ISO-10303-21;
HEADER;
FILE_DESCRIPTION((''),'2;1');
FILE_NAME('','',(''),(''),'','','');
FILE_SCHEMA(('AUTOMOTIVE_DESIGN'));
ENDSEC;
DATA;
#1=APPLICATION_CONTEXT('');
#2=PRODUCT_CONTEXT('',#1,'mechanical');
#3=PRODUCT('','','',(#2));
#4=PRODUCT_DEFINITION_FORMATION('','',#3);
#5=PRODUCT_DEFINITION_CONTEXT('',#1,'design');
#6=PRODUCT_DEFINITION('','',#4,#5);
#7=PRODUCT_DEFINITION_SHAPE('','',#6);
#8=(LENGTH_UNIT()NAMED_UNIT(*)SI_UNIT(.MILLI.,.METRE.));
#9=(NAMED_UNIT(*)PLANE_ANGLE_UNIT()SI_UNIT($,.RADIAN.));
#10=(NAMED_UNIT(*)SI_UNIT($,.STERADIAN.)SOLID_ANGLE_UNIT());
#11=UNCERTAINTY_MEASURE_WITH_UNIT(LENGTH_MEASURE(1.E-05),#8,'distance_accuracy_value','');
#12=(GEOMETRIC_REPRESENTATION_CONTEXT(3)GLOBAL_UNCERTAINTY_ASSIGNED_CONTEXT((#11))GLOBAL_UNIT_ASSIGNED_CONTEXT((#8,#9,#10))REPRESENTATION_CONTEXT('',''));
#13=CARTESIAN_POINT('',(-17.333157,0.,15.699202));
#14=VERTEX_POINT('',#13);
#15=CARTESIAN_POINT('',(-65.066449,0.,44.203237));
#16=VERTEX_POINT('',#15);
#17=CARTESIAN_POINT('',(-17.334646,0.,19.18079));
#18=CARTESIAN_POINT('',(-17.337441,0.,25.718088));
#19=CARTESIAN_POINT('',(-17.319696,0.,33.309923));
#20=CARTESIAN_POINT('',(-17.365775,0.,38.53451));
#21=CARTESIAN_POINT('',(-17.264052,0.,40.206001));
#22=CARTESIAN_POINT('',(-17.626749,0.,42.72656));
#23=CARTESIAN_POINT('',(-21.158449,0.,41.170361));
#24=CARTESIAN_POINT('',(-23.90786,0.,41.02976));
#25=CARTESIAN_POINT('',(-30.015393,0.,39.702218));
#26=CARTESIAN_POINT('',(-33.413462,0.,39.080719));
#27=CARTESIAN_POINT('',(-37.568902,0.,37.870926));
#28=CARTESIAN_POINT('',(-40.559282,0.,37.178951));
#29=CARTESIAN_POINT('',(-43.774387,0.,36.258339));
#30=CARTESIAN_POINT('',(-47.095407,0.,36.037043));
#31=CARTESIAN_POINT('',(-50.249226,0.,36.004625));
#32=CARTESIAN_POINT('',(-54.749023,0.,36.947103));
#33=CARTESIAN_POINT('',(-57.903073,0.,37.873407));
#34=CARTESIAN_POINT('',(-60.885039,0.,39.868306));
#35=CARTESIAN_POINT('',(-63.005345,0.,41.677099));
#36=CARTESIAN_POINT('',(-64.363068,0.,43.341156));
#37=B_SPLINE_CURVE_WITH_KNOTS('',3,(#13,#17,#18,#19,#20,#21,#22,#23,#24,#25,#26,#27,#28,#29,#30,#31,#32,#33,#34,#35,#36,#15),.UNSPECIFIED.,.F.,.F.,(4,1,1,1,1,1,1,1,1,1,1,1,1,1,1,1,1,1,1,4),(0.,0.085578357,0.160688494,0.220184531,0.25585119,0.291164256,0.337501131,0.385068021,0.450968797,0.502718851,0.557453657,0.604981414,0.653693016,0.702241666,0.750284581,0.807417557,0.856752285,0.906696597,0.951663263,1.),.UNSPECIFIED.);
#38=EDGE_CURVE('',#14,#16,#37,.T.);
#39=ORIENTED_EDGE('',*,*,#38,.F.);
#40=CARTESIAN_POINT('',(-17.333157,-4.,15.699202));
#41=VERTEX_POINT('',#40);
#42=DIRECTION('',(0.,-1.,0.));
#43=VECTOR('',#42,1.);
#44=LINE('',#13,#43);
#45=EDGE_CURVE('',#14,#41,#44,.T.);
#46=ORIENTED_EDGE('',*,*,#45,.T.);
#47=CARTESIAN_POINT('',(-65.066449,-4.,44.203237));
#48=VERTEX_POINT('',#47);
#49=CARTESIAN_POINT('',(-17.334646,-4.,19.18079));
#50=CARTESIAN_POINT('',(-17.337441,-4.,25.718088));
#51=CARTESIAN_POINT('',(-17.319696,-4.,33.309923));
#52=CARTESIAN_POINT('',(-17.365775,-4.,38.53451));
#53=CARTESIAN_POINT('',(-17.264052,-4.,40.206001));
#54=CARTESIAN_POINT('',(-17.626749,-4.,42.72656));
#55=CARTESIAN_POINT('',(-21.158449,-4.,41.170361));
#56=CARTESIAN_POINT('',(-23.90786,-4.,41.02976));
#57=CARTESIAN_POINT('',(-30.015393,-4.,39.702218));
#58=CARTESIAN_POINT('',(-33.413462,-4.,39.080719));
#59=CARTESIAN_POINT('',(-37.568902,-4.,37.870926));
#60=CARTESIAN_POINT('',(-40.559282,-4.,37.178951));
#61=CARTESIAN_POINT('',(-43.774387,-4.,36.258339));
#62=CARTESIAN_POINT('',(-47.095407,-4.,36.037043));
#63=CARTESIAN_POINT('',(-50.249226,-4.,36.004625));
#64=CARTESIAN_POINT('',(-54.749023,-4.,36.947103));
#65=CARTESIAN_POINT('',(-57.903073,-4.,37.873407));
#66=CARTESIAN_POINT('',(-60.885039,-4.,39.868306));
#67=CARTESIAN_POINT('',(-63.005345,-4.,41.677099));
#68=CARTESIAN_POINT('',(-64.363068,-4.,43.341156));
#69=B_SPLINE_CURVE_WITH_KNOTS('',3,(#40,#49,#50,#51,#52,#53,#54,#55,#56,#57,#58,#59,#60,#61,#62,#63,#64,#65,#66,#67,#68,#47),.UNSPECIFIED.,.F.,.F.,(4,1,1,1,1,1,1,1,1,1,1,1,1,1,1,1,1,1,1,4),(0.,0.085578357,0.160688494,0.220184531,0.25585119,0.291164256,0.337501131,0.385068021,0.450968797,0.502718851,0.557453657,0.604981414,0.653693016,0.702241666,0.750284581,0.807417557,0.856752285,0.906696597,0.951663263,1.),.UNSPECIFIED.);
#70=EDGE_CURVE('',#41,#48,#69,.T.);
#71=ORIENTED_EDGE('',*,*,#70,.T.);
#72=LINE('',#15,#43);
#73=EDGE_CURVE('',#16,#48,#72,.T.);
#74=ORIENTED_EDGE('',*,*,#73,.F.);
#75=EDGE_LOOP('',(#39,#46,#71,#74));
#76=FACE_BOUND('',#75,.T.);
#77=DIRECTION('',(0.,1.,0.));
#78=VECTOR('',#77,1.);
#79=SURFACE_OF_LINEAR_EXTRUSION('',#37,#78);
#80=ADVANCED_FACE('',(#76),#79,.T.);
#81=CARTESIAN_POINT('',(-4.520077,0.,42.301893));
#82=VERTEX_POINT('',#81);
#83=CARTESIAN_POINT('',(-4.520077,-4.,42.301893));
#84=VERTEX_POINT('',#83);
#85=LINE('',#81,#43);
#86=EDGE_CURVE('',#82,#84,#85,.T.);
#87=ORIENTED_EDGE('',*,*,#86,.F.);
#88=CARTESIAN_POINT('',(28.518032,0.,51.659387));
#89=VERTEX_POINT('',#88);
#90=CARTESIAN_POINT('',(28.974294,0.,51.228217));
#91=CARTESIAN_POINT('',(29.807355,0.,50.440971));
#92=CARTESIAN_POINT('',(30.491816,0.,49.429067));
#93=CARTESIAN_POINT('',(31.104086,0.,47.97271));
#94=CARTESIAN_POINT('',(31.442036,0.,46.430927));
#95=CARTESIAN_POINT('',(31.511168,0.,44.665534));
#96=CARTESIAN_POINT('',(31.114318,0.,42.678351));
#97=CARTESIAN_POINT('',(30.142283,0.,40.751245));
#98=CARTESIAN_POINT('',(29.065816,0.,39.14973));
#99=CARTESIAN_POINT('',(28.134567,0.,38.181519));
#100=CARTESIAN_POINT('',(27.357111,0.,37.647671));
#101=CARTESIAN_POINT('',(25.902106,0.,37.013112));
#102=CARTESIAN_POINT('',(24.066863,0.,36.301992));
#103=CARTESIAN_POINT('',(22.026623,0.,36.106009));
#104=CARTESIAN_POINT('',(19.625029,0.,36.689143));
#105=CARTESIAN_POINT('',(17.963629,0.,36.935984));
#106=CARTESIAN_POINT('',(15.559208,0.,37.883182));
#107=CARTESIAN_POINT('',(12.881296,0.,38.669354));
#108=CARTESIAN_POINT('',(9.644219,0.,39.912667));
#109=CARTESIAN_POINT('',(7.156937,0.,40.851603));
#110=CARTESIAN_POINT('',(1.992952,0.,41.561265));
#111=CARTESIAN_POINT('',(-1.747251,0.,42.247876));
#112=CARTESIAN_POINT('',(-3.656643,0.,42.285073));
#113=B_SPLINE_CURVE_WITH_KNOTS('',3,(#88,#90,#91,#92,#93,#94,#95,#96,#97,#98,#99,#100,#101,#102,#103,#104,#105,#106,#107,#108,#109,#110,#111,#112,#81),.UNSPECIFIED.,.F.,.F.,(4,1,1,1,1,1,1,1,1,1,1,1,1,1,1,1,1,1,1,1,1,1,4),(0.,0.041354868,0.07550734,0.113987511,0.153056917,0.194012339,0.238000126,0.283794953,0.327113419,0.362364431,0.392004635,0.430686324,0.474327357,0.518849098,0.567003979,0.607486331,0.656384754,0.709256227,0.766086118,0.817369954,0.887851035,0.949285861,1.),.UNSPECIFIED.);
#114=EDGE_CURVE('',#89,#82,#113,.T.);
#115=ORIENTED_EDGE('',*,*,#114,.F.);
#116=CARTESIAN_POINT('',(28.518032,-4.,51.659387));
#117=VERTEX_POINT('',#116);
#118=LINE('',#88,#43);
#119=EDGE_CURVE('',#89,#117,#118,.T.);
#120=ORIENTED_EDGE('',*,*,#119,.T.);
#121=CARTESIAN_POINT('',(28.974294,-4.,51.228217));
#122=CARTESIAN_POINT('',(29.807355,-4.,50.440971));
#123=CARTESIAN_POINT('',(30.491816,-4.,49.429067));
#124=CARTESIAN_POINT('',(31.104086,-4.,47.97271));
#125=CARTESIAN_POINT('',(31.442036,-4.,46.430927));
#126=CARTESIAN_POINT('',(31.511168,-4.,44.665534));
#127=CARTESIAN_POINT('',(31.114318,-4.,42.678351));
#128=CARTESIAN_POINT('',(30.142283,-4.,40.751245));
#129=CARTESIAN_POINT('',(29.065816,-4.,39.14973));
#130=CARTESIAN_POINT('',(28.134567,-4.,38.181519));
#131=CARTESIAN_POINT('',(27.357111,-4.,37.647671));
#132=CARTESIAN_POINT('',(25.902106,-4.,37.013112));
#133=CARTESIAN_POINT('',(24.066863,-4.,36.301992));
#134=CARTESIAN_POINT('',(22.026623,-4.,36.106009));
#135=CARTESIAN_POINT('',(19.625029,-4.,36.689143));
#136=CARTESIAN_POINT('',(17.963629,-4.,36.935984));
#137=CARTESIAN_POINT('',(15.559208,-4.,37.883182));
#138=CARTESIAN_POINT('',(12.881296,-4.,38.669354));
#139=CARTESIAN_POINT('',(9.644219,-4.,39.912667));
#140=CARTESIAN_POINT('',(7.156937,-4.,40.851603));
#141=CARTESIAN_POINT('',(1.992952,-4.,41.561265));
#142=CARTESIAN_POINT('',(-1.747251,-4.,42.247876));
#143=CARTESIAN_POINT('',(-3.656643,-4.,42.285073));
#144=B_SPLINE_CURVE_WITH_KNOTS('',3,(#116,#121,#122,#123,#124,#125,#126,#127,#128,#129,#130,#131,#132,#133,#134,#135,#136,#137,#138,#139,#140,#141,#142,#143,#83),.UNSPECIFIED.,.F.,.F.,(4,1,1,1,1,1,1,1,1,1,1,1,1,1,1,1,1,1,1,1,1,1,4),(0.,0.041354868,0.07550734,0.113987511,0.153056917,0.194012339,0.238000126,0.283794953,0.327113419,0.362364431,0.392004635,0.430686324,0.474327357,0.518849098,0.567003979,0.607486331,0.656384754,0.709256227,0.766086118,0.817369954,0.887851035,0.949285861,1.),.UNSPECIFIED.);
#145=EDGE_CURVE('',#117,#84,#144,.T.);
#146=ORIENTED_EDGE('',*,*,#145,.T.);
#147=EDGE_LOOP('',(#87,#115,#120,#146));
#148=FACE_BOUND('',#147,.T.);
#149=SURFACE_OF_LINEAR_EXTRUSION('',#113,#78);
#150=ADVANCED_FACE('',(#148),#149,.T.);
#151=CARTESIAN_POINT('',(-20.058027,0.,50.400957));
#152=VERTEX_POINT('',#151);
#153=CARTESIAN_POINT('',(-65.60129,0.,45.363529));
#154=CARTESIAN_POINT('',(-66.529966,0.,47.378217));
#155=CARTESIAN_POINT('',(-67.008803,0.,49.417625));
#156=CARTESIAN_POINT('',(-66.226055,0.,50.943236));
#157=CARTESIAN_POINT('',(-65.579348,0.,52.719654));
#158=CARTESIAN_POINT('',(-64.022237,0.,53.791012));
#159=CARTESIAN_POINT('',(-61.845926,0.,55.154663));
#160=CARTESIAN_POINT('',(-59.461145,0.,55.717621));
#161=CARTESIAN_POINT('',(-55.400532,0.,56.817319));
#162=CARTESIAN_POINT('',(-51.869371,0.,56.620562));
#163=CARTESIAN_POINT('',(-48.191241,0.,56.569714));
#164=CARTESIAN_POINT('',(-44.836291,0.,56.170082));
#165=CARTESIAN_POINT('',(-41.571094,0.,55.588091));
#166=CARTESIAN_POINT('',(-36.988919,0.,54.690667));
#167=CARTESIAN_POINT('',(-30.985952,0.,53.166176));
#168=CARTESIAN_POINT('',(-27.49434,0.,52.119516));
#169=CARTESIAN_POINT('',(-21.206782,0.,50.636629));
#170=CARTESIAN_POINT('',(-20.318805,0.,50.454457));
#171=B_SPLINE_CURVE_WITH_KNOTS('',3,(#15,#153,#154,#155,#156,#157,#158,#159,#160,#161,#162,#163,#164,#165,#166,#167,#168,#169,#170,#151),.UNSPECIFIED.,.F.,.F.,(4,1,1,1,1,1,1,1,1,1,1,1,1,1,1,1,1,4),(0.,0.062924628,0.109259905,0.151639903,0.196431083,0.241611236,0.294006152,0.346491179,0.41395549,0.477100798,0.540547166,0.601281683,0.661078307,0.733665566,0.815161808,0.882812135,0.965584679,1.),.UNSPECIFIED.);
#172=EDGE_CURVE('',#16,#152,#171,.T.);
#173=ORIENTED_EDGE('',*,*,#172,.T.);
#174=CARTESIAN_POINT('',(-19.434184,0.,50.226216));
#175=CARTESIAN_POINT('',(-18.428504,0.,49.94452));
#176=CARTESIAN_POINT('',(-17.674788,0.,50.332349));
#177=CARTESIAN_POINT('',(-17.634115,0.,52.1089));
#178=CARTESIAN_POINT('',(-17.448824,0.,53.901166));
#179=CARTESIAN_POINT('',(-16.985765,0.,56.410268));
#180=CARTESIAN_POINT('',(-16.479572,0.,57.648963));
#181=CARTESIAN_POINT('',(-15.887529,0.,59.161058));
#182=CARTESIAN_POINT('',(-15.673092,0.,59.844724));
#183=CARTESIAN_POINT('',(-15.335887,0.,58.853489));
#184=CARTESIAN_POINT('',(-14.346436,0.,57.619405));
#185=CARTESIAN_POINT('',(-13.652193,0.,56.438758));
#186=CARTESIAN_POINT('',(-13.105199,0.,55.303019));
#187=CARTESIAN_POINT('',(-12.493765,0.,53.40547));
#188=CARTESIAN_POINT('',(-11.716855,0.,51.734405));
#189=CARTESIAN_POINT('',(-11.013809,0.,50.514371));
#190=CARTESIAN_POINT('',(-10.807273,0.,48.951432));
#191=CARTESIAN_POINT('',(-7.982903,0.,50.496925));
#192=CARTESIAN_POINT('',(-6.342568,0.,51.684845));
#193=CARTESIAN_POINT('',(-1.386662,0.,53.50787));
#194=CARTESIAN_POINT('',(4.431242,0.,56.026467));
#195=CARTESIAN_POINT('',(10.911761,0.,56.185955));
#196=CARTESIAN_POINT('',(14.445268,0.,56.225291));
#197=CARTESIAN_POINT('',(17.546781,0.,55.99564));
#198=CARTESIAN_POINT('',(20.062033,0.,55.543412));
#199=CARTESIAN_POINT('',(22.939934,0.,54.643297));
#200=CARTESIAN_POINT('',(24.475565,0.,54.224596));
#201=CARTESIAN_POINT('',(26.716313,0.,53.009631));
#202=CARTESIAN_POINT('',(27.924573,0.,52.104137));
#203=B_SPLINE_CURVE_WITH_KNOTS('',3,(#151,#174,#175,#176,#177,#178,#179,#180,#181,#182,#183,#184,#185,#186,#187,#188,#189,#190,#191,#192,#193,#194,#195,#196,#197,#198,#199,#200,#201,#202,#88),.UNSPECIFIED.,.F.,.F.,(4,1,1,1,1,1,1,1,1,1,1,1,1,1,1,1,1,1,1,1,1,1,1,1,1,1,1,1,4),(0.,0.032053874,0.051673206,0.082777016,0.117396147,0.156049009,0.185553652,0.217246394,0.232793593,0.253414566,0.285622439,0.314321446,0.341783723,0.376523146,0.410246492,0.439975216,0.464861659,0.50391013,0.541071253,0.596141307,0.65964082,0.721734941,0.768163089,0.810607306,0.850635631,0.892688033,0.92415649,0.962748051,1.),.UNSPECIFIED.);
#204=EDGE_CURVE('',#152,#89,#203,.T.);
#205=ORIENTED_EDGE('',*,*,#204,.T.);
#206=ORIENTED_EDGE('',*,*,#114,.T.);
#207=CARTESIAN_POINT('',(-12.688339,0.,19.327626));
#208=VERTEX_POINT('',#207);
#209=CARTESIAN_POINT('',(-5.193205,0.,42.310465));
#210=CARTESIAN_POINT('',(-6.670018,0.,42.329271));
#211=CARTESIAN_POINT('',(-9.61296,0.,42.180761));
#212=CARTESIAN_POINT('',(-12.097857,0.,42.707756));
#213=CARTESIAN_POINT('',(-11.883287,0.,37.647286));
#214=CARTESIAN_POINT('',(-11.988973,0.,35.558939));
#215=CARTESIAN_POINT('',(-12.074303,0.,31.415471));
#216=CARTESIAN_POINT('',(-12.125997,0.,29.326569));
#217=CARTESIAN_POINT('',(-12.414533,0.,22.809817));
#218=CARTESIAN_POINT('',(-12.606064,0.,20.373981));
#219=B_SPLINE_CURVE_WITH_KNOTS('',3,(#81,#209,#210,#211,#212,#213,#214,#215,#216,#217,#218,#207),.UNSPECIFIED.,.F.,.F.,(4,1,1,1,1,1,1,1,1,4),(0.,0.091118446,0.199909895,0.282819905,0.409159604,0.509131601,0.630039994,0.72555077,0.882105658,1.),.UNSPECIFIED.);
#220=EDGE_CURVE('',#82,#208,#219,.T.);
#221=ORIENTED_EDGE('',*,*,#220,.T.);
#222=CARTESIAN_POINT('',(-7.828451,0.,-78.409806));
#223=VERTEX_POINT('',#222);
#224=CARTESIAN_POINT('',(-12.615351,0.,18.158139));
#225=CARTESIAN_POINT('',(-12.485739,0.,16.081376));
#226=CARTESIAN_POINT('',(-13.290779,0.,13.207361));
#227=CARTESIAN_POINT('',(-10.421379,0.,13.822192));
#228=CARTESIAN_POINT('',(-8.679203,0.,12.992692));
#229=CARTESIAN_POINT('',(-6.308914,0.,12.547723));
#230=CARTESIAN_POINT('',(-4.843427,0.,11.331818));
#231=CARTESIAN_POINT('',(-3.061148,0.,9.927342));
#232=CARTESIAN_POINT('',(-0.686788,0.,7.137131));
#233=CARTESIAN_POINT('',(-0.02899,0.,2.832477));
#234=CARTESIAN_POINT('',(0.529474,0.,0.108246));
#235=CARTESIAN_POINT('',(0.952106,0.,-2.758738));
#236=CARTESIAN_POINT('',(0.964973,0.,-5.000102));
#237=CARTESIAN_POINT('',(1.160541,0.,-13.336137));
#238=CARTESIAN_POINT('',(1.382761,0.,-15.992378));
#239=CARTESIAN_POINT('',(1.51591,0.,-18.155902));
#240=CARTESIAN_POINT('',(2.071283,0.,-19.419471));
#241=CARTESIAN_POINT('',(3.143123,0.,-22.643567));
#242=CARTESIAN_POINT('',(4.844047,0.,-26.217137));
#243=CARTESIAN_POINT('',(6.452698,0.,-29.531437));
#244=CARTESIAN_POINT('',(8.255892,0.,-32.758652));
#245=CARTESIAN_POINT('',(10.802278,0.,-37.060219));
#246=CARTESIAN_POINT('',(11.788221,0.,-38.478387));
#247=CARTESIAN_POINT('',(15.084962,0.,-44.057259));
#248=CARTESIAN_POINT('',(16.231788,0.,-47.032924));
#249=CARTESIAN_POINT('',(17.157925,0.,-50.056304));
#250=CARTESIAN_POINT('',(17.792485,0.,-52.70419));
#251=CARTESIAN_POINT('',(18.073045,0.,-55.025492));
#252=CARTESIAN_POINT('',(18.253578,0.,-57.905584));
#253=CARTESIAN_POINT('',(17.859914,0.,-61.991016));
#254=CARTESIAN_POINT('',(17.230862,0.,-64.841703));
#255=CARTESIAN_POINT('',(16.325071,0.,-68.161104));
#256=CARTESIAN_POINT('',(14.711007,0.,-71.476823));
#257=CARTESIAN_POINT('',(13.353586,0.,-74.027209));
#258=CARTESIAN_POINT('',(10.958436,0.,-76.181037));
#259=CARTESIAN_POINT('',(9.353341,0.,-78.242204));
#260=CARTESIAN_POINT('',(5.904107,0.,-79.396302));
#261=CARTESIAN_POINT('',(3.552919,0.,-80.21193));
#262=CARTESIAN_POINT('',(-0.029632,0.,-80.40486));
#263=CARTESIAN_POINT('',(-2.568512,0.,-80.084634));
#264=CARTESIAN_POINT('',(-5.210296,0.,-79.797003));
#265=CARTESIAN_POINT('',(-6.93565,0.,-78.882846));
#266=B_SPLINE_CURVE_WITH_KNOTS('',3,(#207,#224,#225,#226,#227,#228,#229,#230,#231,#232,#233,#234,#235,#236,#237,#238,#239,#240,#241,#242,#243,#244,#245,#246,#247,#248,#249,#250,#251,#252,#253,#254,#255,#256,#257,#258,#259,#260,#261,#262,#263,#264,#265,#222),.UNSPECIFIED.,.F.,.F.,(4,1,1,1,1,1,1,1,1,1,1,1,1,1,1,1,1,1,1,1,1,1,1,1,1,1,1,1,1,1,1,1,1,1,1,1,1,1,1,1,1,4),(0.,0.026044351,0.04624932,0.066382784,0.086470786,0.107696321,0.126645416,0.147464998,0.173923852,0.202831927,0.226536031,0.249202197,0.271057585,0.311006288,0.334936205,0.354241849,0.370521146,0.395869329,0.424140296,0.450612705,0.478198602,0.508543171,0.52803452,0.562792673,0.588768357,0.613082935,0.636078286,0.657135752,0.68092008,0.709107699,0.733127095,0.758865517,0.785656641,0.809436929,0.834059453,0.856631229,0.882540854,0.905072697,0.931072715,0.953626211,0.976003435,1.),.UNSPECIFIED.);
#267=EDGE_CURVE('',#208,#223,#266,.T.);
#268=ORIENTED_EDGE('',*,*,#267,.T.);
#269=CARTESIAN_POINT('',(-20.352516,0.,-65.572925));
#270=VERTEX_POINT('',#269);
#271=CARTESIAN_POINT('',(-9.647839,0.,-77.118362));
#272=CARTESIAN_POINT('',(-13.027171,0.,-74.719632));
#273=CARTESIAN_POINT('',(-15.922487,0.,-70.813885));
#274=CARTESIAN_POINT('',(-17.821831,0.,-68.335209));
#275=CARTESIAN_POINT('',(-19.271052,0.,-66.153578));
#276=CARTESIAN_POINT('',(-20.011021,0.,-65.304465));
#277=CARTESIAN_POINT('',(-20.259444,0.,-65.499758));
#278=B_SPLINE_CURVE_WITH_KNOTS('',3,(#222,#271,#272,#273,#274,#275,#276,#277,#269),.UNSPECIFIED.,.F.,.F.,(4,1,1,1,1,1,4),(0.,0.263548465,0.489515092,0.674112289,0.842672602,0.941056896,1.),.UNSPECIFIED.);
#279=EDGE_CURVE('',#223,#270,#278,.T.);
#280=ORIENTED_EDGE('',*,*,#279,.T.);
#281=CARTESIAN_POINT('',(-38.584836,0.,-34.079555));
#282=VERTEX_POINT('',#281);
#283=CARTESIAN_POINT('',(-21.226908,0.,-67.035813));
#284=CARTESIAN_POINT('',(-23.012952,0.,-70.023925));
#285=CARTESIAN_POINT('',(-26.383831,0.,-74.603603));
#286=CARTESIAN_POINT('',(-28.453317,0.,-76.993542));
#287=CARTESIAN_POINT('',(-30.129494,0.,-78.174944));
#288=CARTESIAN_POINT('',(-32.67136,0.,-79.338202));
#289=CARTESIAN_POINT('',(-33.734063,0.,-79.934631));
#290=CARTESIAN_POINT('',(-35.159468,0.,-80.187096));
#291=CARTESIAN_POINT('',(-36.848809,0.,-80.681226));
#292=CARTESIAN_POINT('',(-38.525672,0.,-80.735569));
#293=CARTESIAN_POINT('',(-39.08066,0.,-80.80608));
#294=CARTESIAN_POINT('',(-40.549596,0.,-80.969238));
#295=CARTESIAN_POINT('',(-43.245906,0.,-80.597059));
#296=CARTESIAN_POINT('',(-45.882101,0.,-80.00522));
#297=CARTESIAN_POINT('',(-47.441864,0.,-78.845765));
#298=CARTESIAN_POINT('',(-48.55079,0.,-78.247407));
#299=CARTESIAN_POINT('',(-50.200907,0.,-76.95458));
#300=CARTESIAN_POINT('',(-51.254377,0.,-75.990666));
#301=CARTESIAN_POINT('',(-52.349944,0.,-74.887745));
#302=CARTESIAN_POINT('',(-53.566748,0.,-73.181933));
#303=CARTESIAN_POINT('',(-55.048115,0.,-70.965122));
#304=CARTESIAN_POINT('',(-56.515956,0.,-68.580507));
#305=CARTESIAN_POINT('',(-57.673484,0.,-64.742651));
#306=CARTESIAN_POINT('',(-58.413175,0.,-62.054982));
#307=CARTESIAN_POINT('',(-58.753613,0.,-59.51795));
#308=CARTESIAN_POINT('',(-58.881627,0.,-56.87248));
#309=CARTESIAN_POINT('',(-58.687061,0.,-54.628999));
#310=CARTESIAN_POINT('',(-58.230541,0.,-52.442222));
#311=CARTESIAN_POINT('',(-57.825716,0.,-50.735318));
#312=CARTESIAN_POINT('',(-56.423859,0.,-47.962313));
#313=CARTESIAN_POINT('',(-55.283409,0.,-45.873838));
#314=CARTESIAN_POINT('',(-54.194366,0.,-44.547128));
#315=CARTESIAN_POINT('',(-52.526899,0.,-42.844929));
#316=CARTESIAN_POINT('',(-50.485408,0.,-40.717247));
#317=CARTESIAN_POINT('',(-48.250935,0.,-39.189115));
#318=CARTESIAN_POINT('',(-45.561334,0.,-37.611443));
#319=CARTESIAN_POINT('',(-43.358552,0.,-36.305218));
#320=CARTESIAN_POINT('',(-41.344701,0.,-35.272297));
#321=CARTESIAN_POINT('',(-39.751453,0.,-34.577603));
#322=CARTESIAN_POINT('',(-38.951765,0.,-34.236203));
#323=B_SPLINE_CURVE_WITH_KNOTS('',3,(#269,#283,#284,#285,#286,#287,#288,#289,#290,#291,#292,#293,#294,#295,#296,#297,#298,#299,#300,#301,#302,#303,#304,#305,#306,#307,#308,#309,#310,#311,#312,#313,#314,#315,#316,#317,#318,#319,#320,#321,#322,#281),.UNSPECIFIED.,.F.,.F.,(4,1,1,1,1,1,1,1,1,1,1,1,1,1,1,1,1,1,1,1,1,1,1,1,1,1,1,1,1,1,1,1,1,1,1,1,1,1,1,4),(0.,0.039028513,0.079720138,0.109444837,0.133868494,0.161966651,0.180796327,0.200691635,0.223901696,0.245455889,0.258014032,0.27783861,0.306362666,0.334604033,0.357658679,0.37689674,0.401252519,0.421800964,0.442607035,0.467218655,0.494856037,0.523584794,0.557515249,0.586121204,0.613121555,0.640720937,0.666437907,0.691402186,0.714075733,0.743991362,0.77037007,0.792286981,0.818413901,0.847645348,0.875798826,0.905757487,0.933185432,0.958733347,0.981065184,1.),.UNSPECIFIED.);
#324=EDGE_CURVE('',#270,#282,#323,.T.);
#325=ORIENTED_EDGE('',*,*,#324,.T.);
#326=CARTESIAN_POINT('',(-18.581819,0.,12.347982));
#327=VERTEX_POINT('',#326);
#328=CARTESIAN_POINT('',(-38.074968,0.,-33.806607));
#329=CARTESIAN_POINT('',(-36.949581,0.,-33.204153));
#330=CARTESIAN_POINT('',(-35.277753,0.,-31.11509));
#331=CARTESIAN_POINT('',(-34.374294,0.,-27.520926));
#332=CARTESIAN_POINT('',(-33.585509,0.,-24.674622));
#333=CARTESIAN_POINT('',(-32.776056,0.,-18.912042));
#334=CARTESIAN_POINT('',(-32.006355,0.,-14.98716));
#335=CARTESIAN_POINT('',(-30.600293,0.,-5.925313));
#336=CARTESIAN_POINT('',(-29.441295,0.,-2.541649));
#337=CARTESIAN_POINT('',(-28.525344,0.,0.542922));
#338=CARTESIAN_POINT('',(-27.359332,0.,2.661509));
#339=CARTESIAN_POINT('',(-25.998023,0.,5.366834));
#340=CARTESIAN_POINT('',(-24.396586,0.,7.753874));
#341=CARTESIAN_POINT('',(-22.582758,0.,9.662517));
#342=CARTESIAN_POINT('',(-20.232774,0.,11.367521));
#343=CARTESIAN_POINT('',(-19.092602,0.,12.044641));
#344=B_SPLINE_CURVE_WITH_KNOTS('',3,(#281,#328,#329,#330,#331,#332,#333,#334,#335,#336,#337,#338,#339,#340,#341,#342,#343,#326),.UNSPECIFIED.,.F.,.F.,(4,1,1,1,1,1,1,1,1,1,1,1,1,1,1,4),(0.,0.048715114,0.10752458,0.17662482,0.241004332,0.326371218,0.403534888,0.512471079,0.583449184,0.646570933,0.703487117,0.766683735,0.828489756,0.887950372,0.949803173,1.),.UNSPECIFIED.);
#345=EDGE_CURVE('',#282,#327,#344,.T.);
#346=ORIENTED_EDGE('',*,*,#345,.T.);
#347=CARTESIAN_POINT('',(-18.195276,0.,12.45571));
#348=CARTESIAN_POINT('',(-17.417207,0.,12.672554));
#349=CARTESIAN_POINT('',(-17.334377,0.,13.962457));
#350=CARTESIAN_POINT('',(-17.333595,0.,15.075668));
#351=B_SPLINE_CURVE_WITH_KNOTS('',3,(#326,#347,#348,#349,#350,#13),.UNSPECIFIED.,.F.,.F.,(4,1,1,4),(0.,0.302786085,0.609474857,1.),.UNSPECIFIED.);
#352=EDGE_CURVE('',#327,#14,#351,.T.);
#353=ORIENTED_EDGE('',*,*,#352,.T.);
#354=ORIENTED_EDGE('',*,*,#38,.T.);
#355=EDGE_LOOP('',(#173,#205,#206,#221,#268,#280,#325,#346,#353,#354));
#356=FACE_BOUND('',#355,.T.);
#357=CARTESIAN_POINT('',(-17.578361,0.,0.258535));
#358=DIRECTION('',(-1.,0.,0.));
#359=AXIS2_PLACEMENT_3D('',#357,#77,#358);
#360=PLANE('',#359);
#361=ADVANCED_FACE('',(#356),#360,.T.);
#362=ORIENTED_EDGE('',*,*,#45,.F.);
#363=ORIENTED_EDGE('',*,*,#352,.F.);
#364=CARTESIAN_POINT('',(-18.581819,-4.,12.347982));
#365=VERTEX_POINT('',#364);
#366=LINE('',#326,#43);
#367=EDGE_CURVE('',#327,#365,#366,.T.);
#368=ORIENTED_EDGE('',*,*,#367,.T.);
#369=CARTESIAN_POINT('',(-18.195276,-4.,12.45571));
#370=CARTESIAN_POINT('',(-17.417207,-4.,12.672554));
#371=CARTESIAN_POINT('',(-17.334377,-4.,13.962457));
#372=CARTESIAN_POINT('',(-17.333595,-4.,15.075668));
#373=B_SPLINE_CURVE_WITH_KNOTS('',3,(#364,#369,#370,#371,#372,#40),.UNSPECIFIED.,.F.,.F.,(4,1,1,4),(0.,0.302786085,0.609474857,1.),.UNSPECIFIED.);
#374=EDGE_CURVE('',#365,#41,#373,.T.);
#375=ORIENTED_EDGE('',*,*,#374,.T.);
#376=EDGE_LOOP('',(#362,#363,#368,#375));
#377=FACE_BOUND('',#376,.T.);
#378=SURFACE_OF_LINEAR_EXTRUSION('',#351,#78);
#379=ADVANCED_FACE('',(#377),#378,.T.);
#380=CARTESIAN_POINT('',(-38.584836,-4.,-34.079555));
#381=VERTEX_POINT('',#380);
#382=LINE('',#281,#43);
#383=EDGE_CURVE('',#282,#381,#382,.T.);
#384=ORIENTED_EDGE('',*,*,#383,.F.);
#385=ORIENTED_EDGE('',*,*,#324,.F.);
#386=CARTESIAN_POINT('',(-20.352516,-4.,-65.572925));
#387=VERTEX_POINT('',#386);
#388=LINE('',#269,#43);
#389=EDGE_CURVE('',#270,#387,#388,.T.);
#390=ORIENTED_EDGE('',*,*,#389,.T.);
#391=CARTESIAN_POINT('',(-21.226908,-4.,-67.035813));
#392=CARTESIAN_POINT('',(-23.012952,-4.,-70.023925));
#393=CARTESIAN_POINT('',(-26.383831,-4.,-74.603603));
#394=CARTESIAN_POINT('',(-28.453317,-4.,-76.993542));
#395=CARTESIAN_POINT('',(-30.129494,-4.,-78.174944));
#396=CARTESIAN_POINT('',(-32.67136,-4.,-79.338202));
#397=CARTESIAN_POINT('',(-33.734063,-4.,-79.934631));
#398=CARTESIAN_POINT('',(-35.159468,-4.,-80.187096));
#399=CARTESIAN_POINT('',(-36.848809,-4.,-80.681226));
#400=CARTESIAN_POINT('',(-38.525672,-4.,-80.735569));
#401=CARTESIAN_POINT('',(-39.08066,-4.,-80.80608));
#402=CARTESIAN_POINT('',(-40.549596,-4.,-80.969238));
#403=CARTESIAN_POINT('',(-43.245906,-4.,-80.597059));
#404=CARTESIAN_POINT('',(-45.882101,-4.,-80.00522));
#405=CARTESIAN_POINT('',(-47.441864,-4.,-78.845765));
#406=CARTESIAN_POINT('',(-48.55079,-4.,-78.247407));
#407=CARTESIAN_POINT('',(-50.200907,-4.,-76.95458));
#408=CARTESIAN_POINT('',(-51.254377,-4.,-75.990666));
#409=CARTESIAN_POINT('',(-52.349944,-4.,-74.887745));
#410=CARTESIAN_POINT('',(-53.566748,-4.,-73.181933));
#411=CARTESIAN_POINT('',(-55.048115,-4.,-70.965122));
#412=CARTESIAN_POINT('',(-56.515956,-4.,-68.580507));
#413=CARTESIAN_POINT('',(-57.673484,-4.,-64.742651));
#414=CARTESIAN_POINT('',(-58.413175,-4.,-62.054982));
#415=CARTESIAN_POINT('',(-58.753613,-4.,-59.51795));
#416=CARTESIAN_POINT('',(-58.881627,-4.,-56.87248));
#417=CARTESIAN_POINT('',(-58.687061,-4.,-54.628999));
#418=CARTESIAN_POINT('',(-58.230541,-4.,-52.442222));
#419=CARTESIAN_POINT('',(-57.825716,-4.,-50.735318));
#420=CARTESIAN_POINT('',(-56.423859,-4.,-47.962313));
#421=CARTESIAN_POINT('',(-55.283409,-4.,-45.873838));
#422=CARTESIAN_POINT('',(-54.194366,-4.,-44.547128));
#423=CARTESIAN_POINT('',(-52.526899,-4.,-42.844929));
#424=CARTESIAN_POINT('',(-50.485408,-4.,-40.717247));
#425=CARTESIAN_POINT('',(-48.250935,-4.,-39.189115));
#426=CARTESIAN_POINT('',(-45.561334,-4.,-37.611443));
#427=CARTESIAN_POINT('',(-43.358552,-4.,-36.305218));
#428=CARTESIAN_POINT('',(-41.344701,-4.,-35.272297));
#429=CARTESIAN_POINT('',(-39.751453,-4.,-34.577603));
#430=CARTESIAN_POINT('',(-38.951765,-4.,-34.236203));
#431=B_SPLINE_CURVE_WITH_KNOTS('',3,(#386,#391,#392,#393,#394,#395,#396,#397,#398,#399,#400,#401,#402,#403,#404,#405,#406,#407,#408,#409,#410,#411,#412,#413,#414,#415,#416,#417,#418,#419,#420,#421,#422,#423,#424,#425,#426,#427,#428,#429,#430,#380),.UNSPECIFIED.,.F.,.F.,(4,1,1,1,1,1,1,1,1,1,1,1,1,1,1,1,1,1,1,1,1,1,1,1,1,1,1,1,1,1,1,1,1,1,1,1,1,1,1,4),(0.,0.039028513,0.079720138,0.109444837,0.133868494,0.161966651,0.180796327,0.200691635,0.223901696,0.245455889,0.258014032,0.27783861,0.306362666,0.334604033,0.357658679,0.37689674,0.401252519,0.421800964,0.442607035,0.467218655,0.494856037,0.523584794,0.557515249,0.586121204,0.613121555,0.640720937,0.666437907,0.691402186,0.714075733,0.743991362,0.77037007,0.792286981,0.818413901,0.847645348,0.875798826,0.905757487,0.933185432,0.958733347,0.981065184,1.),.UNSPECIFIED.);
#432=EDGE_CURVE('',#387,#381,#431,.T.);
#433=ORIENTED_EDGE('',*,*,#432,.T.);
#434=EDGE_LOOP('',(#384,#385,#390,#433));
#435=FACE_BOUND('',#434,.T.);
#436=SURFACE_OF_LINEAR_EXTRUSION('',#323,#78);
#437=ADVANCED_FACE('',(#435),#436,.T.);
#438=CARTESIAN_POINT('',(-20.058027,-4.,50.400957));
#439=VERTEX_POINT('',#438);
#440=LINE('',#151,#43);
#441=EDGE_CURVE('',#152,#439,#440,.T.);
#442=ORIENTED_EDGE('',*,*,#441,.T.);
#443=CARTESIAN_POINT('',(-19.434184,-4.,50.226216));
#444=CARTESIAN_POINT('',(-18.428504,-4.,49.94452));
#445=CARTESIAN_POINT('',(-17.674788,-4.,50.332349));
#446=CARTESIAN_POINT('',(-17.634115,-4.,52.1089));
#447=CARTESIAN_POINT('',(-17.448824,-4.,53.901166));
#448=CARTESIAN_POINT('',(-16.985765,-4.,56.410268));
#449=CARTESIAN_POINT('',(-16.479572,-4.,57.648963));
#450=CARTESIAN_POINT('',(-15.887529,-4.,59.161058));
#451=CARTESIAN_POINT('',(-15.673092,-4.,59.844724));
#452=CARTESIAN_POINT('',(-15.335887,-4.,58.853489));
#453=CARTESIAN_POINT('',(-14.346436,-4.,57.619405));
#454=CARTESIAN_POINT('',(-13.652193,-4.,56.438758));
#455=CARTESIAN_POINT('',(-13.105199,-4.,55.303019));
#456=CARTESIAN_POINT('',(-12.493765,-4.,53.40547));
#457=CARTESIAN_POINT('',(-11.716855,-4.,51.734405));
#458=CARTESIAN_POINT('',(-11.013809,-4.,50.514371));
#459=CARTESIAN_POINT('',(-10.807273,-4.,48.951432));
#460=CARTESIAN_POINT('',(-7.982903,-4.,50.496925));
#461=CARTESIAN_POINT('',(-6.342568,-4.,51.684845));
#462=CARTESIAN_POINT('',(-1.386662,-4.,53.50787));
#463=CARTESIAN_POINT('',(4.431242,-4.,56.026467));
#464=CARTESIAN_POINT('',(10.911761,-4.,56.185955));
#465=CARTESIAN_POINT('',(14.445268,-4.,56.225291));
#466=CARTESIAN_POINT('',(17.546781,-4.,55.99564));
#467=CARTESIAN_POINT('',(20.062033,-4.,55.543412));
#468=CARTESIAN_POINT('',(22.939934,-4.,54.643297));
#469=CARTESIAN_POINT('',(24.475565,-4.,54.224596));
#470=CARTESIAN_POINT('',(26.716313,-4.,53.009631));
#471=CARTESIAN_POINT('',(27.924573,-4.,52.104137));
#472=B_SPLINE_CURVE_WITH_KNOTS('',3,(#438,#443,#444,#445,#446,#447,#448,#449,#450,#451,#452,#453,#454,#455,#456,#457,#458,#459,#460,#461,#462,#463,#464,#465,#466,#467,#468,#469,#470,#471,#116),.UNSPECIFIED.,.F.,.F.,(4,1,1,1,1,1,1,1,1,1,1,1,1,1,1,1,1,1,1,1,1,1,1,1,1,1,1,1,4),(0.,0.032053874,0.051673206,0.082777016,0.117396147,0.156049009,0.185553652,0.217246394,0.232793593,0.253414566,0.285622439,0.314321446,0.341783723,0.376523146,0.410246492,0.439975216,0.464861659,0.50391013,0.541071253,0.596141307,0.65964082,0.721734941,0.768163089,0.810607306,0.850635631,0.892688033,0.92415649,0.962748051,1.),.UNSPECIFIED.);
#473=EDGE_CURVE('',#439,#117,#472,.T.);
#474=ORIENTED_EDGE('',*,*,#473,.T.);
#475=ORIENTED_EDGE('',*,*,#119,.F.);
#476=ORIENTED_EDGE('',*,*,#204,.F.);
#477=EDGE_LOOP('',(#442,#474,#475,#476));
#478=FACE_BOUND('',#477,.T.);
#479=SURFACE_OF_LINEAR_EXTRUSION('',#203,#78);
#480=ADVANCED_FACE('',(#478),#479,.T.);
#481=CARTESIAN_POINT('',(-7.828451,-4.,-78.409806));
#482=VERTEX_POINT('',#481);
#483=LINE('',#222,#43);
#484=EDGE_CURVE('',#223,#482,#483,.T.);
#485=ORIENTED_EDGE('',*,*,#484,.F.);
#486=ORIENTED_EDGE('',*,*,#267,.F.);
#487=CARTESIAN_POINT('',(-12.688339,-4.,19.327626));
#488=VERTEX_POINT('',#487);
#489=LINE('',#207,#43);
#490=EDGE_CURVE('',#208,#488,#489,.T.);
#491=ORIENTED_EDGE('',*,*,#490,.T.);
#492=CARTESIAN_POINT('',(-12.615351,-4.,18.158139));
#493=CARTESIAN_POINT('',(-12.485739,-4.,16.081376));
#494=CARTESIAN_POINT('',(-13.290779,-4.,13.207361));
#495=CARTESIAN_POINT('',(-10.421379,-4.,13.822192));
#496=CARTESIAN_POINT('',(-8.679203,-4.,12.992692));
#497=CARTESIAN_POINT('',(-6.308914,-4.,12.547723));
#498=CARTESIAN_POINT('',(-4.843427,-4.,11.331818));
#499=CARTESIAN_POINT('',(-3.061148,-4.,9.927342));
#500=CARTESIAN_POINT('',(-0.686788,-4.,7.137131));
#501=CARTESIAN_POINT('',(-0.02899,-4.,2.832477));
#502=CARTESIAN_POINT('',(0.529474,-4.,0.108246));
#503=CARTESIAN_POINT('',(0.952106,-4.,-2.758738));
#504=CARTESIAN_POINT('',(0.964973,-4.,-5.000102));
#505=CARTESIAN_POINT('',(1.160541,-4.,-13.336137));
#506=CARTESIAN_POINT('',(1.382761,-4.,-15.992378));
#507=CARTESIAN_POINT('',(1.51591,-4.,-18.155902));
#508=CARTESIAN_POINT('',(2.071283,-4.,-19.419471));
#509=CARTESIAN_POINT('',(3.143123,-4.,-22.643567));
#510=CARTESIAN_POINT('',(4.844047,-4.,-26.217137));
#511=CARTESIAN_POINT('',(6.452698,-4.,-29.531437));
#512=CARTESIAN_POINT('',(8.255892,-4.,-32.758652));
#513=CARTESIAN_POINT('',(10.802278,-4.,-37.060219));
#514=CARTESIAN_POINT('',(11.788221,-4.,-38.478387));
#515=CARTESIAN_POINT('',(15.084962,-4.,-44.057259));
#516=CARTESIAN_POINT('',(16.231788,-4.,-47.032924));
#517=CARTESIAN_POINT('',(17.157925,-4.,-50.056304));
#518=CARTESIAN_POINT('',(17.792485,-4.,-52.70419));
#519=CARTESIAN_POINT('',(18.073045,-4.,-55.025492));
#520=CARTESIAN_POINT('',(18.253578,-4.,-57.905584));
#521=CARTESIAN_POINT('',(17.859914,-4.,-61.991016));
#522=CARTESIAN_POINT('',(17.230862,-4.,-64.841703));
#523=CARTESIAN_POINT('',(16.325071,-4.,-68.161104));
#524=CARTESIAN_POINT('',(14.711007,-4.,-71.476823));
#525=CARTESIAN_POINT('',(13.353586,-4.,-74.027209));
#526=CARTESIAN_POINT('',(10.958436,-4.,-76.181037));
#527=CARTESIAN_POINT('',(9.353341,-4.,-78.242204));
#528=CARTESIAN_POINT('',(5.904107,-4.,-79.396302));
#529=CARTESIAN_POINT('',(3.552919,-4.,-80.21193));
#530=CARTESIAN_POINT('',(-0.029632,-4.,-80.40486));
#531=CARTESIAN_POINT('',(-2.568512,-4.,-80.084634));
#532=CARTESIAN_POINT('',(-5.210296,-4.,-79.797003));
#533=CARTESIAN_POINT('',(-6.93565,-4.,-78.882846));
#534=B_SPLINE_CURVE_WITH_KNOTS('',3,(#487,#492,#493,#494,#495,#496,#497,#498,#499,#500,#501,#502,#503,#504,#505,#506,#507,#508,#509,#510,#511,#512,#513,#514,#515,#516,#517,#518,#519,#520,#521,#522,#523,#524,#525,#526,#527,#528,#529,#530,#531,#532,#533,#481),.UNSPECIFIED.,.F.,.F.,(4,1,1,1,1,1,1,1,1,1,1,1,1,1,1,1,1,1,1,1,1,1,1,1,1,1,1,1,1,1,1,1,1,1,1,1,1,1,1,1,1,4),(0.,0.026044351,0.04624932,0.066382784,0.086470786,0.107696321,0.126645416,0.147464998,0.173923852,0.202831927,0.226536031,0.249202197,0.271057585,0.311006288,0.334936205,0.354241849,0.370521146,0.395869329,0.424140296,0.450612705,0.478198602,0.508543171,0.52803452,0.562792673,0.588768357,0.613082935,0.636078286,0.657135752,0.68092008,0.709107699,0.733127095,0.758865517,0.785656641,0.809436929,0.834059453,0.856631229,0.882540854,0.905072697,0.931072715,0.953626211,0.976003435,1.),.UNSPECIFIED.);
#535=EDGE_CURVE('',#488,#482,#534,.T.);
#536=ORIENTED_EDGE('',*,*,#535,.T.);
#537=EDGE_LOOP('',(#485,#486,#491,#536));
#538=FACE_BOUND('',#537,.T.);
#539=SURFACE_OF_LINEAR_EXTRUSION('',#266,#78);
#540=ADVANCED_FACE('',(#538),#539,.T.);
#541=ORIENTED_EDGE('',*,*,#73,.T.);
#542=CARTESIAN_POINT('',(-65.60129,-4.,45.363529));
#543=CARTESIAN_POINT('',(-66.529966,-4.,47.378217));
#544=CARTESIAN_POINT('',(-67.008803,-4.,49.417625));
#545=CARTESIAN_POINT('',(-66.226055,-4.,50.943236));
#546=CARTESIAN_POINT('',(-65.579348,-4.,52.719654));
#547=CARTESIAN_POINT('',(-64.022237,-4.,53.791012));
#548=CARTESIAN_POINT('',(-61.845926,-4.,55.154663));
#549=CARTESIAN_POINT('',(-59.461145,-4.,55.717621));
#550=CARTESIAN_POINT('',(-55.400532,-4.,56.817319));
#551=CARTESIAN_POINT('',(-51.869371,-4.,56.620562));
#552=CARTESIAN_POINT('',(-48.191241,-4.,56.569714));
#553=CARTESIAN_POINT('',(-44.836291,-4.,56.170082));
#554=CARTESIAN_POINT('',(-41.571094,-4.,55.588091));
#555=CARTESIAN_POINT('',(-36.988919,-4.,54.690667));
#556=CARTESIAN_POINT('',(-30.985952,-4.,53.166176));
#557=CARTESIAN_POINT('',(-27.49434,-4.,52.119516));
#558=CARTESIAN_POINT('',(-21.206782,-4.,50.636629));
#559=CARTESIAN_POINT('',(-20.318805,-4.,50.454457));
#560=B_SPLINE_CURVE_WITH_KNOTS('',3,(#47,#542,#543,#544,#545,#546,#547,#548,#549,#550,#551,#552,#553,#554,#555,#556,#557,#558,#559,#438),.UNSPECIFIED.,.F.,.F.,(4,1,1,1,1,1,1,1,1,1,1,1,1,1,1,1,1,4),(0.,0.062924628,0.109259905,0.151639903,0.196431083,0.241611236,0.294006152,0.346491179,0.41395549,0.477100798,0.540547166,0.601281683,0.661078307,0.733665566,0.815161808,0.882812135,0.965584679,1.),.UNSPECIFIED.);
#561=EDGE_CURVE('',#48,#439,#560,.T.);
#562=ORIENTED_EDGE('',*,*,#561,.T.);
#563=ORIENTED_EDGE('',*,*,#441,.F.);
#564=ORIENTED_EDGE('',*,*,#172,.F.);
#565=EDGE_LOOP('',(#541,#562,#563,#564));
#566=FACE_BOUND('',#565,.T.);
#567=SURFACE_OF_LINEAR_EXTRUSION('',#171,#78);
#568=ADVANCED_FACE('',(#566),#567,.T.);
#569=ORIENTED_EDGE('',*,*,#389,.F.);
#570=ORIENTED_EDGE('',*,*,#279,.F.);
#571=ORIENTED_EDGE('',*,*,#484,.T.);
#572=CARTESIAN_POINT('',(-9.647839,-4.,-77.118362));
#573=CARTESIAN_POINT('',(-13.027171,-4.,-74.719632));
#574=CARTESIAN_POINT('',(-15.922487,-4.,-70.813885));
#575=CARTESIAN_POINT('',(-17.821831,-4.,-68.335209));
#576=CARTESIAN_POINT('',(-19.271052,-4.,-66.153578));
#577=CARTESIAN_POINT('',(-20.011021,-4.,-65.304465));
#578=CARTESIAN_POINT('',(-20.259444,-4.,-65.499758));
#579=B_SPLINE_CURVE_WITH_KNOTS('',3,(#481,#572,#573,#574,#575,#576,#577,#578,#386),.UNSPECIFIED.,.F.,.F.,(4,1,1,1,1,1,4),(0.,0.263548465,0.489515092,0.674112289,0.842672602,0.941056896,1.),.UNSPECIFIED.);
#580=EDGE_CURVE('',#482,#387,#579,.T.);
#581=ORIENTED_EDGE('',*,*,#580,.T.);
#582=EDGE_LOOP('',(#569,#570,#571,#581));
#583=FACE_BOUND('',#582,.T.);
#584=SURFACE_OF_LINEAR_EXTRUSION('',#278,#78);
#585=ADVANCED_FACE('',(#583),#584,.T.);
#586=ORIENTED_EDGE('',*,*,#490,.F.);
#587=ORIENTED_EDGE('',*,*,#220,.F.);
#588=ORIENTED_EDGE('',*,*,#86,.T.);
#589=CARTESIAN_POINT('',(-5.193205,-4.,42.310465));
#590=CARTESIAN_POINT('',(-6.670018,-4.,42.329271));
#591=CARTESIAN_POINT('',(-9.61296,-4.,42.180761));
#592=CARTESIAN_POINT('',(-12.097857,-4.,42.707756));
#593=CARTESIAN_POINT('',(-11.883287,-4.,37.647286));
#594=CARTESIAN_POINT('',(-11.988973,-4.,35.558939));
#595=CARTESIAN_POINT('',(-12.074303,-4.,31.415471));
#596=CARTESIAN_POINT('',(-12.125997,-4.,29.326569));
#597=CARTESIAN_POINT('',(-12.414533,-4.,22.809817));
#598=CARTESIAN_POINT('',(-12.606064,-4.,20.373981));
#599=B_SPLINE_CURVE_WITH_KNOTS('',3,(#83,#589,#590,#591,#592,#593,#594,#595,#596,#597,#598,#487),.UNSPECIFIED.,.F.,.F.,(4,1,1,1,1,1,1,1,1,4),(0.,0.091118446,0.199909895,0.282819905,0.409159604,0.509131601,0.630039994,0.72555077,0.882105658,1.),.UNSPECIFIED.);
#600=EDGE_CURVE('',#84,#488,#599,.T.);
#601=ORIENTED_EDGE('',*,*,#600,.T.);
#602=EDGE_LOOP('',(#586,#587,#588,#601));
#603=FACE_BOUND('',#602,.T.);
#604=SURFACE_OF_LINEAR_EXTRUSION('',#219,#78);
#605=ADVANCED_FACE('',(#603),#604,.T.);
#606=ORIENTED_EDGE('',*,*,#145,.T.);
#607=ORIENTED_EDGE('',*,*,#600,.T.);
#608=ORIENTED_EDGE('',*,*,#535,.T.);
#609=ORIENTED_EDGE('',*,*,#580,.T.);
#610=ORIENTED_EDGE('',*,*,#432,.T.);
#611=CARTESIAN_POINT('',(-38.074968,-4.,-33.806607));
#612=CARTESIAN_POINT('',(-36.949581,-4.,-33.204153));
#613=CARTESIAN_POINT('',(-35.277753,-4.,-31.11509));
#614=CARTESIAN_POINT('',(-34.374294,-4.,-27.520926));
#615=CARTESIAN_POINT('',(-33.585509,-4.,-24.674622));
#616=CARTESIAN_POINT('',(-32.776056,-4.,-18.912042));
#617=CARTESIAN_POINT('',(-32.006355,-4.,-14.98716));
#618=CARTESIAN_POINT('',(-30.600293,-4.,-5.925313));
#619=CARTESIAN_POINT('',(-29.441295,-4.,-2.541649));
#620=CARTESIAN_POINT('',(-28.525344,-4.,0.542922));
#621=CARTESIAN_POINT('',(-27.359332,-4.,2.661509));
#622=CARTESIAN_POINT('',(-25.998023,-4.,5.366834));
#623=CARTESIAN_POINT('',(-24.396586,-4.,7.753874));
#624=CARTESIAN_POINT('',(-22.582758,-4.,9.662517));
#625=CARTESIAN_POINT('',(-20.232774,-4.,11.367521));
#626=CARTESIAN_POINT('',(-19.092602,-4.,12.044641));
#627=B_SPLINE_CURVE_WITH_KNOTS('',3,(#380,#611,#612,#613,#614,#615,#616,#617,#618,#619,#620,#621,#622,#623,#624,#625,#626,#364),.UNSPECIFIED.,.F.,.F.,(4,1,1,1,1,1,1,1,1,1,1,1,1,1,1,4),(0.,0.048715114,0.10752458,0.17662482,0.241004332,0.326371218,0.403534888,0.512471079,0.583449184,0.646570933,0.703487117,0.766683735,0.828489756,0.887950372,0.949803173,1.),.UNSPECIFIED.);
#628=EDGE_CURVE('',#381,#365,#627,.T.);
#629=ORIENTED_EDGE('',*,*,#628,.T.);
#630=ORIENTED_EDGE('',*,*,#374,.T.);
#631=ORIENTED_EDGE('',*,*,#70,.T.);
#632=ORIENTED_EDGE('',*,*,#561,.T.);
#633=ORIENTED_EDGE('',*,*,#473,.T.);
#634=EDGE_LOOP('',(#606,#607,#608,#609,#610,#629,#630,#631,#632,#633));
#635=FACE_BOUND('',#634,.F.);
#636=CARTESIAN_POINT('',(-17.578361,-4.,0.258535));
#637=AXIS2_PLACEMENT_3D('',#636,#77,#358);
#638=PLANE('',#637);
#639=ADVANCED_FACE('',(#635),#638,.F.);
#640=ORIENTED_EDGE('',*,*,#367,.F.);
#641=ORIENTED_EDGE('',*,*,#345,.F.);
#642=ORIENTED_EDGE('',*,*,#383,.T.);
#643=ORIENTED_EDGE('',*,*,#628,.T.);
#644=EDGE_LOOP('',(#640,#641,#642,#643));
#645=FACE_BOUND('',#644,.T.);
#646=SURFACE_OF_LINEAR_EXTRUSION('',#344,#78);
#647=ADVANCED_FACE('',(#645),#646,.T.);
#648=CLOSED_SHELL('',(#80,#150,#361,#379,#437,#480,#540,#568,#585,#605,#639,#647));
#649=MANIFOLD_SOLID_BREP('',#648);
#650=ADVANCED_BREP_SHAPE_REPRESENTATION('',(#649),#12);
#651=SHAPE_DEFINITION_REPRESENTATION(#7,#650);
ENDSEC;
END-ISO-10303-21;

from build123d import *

# Parameters (mm, degrees)
F1_DEPTH = 4


with BuildPart() as f1:
    # F0 (on Front) → F1 (new body)
    with BuildSketch(Plane.XZ):
        with BuildLine():
            add(Edge.make_bspline(
                [(-20.3525163233, -65.572924912), (-21.2269080513, -67.035812522), (-23.0129517633, -70.0239254396), (-26.3838308621, -74.6036030205), (-28.4533170863, -76.99354181), (-30.129493912, -78.1749435522), (-32.6713598664, -79.3382019684), (-33.7340626565, -79.9346314373), (-35.1594680464, -80.1870957155), (-36.848809406, -80.6812262889), (-38.5256721939, -80.735568656), (-39.0806601057, -80.8060801583), (-40.5495963708, -80.9692381037), (-43.2459056286, -80.5970588273), (-45.8821005417, -80.0052197219), (-47.441864217, -78.8457646047), (-48.5507903109, -78.2474065294), (-50.2009067919, -76.9545795798), (-51.2543770189, -75.9906663898), (-52.3499442447, -74.8877447632), (-53.5667475578, -73.1819327847), (-55.0481147435, -70.9651220929), (-56.5159561894, -68.5805071267), (-57.6734841987, -64.7426508598), (-58.4131746522, -62.0549821015), (-58.753613354, -59.5179500258), (-58.8816269503, -56.8724804135), (-58.6870612474, -54.6289986927), (-58.2305409065, -52.4422224403), (-57.8257158798, -50.7353178809), (-56.4238585645, -47.9623132386), (-55.2834086634, -45.8738377041), (-54.1943656234, -44.5471284285), (-52.5268994383, -42.8449290384), (-50.4854079375, -40.7172469551), (-48.2509347271, -39.1891154353), (-45.5613342853, -37.6114432737), (-43.3585521749, -36.3052179775), (-41.3447005978, -35.2722969933), (-39.7514532181, -34.5776032593), (-38.9517651741, -34.2362034962), (-38.5848358274, -34.0795554221)],
                knots=[0, 0, 0, 0, 0.0390285125, 0.0797201382, 0.1094448365, 0.1338684942, 0.1619666505, 0.180796327, 0.2006916354, 0.2239016956, 0.2454558886, 0.2580140325, 0.27783861, 0.306362666, 0.3346040331, 0.3576586788, 0.3768967396, 0.4012525194, 0.4218009642, 0.4426070351, 0.4672186549, 0.4948560368, 0.5235847937, 0.5575152493, 0.5861212037, 0.6131215554, 0.6407209367, 0.6664379074, 0.6914021862, 0.7140757325, 0.7439913624, 0.7703700696, 0.7922869805, 0.8184139006, 0.8476453477, 0.8757988265, 0.9057574868, 0.9331854321, 0.9587333468, 0.9810651839, 1, 1, 1, 1], degree=3))
            add(Edge.make_bspline(
                [(-7.8284507617, -78.4098058939), (-9.6478385317, -77.118361504), (-13.0271705668, -74.7196318487), (-15.9224872323, -70.8138846551), (-17.8218314048, -68.3352085128), (-19.2710515336, -66.1535776554), (-20.0110210456, -65.3044652578), (-20.2594440298, -65.4997579976), (-20.3525163233, -65.572924912)],
                knots=[0, 0, 0, 0, 0.2635484655, 0.4895150924, 0.6741122887, 0.8426726025, 0.9410568963, 1, 1, 1, 1], degree=3))
            add(Edge.make_bspline(
                [(-12.6883387566, 19.3276256323), (-12.6153507897, 18.1581391895), (-12.4857394235, 16.0813758256), (-13.2907794865, 13.2073614121), (-10.4213789236, 13.8221921581), (-8.6792033369, 12.992691898), (-6.308914205, 12.5477231233), (-4.8434270445, 11.3318180635), (-3.0611476537, 9.9273418788), (-0.686788022, 7.1371310211), (-0.0289901223, 2.8324767468), (0.5294735834, 0.1082457785), (0.9521063334, -2.7587377566), (0.9649726739, -5.0001016472), (1.1605412594, -13.3361369744), (1.3827611498, -15.9923778715), (1.5159103355, -18.155901779), (2.0712831418, -19.4194711816), (3.1431227542, -22.6435667594), (4.844046861, -26.2171374809), (6.4526982755, -29.5314374342), (8.255892227, -32.7586517155), (10.8022780607, -37.0602186199), (11.7882205826, -38.4783874158), (15.0849615316, -44.0572586938), (16.2317881669, -47.0329243786), (17.1579249778, -50.0563043994), (17.7924853651, -52.7041903961), (18.073044907, -55.0254923882), (18.2535777996, -57.9055837028), (17.8599136018, -61.9910160568), (17.2308621144, -64.8417027291), (16.3250705233, -68.1611040117), (14.7110065224, -71.4768233738), (13.3535856722, -74.0272085787), (10.9584360701, -76.181037275), (9.3533412133, -78.2422042865), (5.9041068791, -79.3963018808), (3.5529190201, -80.2119301918), (-0.0296324806, -80.4048604343), (-2.5685124063, -80.0846341865), (-5.21029589, -79.7970033321), (-6.9356497325, -78.8828456342), (-7.8284507617, -78.4098058939)],
                knots=[0, 0, 0, 0, 0.0260443506, 0.0462493203, 0.0663827843, 0.0864707864, 0.1076963213, 0.1266454159, 0.1474649984, 0.1739238523, 0.2028319267, 0.2265360308, 0.2492021974, 0.2710575846, 0.3110062883, 0.3349362052, 0.3542418485, 0.3705211456, 0.395869329, 0.4241402961, 0.4506127046, 0.478198602, 0.508543171, 0.5280345203, 0.5627926727, 0.5887683565, 0.6130829349, 0.636078286, 0.6571357515, 0.6809200799, 0.709107699, 0.7331270949, 0.7588655166, 0.7856566412, 0.8094369285, 0.8340594534, 0.8566312286, 0.8825408539, 0.9050726972, 0.9310727152, 0.9536262114, 0.9760034347, 1, 1, 1, 1], degree=3))
            add(Edge.make_bspline(
                [(-4.5200767927, 42.3018932343), (-5.1932046929, 42.3104650417), (-6.6700179361, 42.3292712132), (-9.6129595482, 42.1807612052), (-12.0978573114, 42.707756122), (-11.8832870461, 37.6472858328), (-11.98897259, 35.5589389929), (-12.0743026473, 31.4154706982), (-12.1259967487, 29.3265691062), (-12.4145332254, 22.8098166042), (-12.6060636152, 20.3739805151), (-12.6883387566, 19.3276256323)],
                knots=[0, 0, 0, 0, 0.0911184459, 0.1999098947, 0.2828199049, 0.4091596041, 0.5091316014, 0.6300399943, 0.7255507698, 0.8821056584, 1, 1, 1, 1], degree=3))
            add(Edge.make_bspline(
                [(28.5180322826, 51.659386605), (28.9742942373, 51.2282171565), (29.8073552017, 50.4409710735), (30.4918161627, 49.4290672982), (31.1040855747, 47.9727102009), (31.4420356736, 46.4309273482), (31.5111682367, 44.6655335225), (31.1143182921, 42.6783514668), (30.1422826365, 40.7512454639), (29.0658163246, 39.1497297366), (28.1345672444, 38.181519429), (27.3571112104, 37.6476714043), (25.9021057221, 37.0131122495), (24.0668632162, 36.3019916378), (22.026623022, 36.1060085011), (19.625028637, 36.689142696), (17.9636292176, 36.9359835025), (15.5592076722, 37.883182241), (12.8812963216, 38.6693543253), (9.6442187674, 39.912667006), (7.1569370388, 40.8516031882), (1.9929517967, 41.5612645493), (-1.747250835, 42.24787611), (-3.6566431564, 42.2850727765), (-4.5200767927, 42.3018932343)],
                knots=[0, 0, 0, 0, 0.0413548683, 0.0755073399, 0.1139875109, 0.1530569165, 0.1940123395, 0.2380001257, 0.2837949528, 0.3271134194, 0.3623644309, 0.3920046347, 0.4306863237, 0.4743273568, 0.5188490979, 0.5670039788, 0.6074863312, 0.6563847544, 0.7092562273, 0.7660861178, 0.8173699541, 0.8878510353, 0.9492858606, 1, 1, 1, 1], degree=3))
            add(Edge.make_bspline(
                [(-20.0580265373, 50.4009574652), (-19.4341840416, 50.2262159631), (-18.4285039714, 49.9445197861), (-17.6747879637, 50.3323487698), (-17.6341150963, 52.1088996991), (-17.4488241349, 53.9011658903), (-16.9857648752, 56.4102684681), (-16.4795719778, 57.6489628855), (-15.8875292652, 59.1610575742), (-15.6730918241, 59.8447241504), (-15.3358865287, 58.8534890705), (-14.3464364109, 57.6194050256), (-13.6521932797, 56.4387580939), (-13.1051987102, 55.3030187678), (-12.4937645769, 53.4054696461), (-11.7168545394, 51.7344054866), (-11.0138094198, 50.5143711168), (-10.8072730484, 48.9514315711), (-7.9829028125, 50.4969254153), (-6.3425677091, 51.6848453648), (-1.3866620505, 53.5078695379), (4.4312421474, 56.0264670209), (10.9117611885, 56.1859548275), (14.445268216, 56.2252906388), (17.546781244, 55.9956403582), (20.0620329288, 55.5434122019), (22.9399343567, 54.643297037), (24.4755649201, 54.2245960538), (26.7163128801, 53.0096314157), (27.9245729139, 52.1041370094), (28.5180322826, 51.659386605)],
                knots=[0, 0, 0, 0, 0.0320538737, 0.0516732062, 0.082777016, 0.1173961468, 0.1560490086, 0.1855536523, 0.2172463938, 0.2327935932, 0.2534145655, 0.2856224386, 0.3143214464, 0.3417837228, 0.3765231462, 0.4102464924, 0.4399752163, 0.464861659, 0.5039101301, 0.5410712528, 0.596141307, 0.6596408203, 0.7217349411, 0.7681630885, 0.8106073058, 0.8506356311, 0.8926880326, 0.9241564897, 0.9627480505, 1, 1, 1, 1], degree=3))
            add(Edge.make_bspline(
                [(-65.0664493442, 44.2032366991), (-65.6012897489, 45.3635294303), (-66.5299660746, 47.3782171405), (-67.0088025412, 49.4176250531), (-66.2260547889, 50.9432355158), (-65.5793479087, 52.719654029), (-64.0222374369, 53.7910117325), (-61.8459260046, 55.1546628328), (-59.4611447202, 55.7176207475), (-55.4005317653, 56.8173188092), (-51.8693709165, 56.6205618586), (-48.1912409091, 56.5697143778), (-44.836291067, 56.1700820795), (-41.5710937271, 55.5880912949), (-36.988918896, 54.690667387), (-30.9859517694, 53.1661764614), (-27.4943397418, 52.1195156776), (-21.2067817185, 50.6366292772), (-20.3188045546, 50.4544571393), (-20.0580265373, 50.4009574652)],
                knots=[0, 0, 0, 0, 0.0629246277, 0.1092599054, 0.1516399029, 0.196431083, 0.2416112363, 0.2940061517, 0.3464911794, 0.4139554899, 0.4771007979, 0.5405471663, 0.6012816827, 0.6610783071, 0.733665566, 0.8151618082, 0.8828121351, 0.9655846791, 1, 1, 1, 1], degree=3))
            add(Edge.make_bspline(
                [(-17.3331573606, 15.6992021948), (-17.334646011, 19.1807904454), (-17.3374412155, 25.7180878457), (-17.3196960218, 33.3099229275), (-17.3657749118, 38.5345104426), (-17.2640520695, 40.2060006148), (-17.6267488839, 42.7265601863), (-21.1584490889, 41.1703612598), (-23.9078598242, 41.0297600294), (-30.0153933815, 39.7022184271), (-33.4134619283, 39.0807190158), (-37.5689015099, 37.8709261302), (-40.5592815576, 37.1789509057), (-43.7743874845, 36.2583393567), (-47.0954069311, 36.0370433696), (-50.2492258195, 36.0046250972), (-54.7490232505, 36.9471033211), (-57.9030727736, 37.8734067569), (-60.8850394877, 39.8683057581), (-63.0053446898, 41.6770991179), (-64.3630677103, 43.3411558846), (-65.0664493442, 44.2032366991)],
                knots=[0, 0, 0, 0, 0.0855783573, 0.160688494, 0.2201845312, 0.2558511902, 0.2911642555, 0.3375011308, 0.3850680209, 0.4509687973, 0.5027188515, 0.5574536565, 0.6049814136, 0.6536930158, 0.702241666, 0.7502845805, 0.8074175567, 0.8567522849, 0.9066965968, 0.9516632633, 1, 1, 1, 1], degree=3))
            add(Edge.make_bspline(
                [(-18.5818187892, 12.3479822651), (-18.1952756551, 12.4557100478), (-17.4172071329, 12.6725541444), (-17.3343774762, 13.9624568364), (-17.3335954122, 15.0756677874), (-17.3331573606, 15.6992021948)],
                knots=[0, 0, 0, 0, 0.3027860848, 0.6094748573, 1, 1, 1, 1], degree=3))
            add(Edge.make_bspline(
                [(-38.5848358274, -34.0795554221), (-38.0749678109, -33.8066073183), (-36.9495810593, -33.2041530164), (-35.2777534291, -31.115089895), (-34.3742938787, -27.5209264291), (-33.5855093112, -24.6746222344), (-32.7760562323, -18.9120415621), (-32.0063546478, -14.9871597464), (-30.6002930279, -5.9253127345), (-29.4412954939, -2.5416487172), (-28.5253439808, 0.542921503), (-27.3593315271, 2.6615093463), (-25.9980229283, 5.3668337146), (-24.3965857911, 7.7538742621), (-22.5827580327, 9.6625173655), (-20.2327744214, 11.3675209777), (-19.0926018083, 12.0446409961), (-18.5818187892, 12.3479822651)],
                knots=[0, 0, 0, 0, 0.0487151143, 0.1075245798, 0.17662482, 0.2410043316, 0.3263712183, 0.4035348878, 0.5124710791, 0.5834491837, 0.6465709332, 0.7034871171, 0.7666837351, 0.8284897555, 0.8879503721, 0.9498031732, 1, 1, 1, 1], degree=3))
        make_face()
    extrude(amount=F1_DEPTH)


solid = f1.part
